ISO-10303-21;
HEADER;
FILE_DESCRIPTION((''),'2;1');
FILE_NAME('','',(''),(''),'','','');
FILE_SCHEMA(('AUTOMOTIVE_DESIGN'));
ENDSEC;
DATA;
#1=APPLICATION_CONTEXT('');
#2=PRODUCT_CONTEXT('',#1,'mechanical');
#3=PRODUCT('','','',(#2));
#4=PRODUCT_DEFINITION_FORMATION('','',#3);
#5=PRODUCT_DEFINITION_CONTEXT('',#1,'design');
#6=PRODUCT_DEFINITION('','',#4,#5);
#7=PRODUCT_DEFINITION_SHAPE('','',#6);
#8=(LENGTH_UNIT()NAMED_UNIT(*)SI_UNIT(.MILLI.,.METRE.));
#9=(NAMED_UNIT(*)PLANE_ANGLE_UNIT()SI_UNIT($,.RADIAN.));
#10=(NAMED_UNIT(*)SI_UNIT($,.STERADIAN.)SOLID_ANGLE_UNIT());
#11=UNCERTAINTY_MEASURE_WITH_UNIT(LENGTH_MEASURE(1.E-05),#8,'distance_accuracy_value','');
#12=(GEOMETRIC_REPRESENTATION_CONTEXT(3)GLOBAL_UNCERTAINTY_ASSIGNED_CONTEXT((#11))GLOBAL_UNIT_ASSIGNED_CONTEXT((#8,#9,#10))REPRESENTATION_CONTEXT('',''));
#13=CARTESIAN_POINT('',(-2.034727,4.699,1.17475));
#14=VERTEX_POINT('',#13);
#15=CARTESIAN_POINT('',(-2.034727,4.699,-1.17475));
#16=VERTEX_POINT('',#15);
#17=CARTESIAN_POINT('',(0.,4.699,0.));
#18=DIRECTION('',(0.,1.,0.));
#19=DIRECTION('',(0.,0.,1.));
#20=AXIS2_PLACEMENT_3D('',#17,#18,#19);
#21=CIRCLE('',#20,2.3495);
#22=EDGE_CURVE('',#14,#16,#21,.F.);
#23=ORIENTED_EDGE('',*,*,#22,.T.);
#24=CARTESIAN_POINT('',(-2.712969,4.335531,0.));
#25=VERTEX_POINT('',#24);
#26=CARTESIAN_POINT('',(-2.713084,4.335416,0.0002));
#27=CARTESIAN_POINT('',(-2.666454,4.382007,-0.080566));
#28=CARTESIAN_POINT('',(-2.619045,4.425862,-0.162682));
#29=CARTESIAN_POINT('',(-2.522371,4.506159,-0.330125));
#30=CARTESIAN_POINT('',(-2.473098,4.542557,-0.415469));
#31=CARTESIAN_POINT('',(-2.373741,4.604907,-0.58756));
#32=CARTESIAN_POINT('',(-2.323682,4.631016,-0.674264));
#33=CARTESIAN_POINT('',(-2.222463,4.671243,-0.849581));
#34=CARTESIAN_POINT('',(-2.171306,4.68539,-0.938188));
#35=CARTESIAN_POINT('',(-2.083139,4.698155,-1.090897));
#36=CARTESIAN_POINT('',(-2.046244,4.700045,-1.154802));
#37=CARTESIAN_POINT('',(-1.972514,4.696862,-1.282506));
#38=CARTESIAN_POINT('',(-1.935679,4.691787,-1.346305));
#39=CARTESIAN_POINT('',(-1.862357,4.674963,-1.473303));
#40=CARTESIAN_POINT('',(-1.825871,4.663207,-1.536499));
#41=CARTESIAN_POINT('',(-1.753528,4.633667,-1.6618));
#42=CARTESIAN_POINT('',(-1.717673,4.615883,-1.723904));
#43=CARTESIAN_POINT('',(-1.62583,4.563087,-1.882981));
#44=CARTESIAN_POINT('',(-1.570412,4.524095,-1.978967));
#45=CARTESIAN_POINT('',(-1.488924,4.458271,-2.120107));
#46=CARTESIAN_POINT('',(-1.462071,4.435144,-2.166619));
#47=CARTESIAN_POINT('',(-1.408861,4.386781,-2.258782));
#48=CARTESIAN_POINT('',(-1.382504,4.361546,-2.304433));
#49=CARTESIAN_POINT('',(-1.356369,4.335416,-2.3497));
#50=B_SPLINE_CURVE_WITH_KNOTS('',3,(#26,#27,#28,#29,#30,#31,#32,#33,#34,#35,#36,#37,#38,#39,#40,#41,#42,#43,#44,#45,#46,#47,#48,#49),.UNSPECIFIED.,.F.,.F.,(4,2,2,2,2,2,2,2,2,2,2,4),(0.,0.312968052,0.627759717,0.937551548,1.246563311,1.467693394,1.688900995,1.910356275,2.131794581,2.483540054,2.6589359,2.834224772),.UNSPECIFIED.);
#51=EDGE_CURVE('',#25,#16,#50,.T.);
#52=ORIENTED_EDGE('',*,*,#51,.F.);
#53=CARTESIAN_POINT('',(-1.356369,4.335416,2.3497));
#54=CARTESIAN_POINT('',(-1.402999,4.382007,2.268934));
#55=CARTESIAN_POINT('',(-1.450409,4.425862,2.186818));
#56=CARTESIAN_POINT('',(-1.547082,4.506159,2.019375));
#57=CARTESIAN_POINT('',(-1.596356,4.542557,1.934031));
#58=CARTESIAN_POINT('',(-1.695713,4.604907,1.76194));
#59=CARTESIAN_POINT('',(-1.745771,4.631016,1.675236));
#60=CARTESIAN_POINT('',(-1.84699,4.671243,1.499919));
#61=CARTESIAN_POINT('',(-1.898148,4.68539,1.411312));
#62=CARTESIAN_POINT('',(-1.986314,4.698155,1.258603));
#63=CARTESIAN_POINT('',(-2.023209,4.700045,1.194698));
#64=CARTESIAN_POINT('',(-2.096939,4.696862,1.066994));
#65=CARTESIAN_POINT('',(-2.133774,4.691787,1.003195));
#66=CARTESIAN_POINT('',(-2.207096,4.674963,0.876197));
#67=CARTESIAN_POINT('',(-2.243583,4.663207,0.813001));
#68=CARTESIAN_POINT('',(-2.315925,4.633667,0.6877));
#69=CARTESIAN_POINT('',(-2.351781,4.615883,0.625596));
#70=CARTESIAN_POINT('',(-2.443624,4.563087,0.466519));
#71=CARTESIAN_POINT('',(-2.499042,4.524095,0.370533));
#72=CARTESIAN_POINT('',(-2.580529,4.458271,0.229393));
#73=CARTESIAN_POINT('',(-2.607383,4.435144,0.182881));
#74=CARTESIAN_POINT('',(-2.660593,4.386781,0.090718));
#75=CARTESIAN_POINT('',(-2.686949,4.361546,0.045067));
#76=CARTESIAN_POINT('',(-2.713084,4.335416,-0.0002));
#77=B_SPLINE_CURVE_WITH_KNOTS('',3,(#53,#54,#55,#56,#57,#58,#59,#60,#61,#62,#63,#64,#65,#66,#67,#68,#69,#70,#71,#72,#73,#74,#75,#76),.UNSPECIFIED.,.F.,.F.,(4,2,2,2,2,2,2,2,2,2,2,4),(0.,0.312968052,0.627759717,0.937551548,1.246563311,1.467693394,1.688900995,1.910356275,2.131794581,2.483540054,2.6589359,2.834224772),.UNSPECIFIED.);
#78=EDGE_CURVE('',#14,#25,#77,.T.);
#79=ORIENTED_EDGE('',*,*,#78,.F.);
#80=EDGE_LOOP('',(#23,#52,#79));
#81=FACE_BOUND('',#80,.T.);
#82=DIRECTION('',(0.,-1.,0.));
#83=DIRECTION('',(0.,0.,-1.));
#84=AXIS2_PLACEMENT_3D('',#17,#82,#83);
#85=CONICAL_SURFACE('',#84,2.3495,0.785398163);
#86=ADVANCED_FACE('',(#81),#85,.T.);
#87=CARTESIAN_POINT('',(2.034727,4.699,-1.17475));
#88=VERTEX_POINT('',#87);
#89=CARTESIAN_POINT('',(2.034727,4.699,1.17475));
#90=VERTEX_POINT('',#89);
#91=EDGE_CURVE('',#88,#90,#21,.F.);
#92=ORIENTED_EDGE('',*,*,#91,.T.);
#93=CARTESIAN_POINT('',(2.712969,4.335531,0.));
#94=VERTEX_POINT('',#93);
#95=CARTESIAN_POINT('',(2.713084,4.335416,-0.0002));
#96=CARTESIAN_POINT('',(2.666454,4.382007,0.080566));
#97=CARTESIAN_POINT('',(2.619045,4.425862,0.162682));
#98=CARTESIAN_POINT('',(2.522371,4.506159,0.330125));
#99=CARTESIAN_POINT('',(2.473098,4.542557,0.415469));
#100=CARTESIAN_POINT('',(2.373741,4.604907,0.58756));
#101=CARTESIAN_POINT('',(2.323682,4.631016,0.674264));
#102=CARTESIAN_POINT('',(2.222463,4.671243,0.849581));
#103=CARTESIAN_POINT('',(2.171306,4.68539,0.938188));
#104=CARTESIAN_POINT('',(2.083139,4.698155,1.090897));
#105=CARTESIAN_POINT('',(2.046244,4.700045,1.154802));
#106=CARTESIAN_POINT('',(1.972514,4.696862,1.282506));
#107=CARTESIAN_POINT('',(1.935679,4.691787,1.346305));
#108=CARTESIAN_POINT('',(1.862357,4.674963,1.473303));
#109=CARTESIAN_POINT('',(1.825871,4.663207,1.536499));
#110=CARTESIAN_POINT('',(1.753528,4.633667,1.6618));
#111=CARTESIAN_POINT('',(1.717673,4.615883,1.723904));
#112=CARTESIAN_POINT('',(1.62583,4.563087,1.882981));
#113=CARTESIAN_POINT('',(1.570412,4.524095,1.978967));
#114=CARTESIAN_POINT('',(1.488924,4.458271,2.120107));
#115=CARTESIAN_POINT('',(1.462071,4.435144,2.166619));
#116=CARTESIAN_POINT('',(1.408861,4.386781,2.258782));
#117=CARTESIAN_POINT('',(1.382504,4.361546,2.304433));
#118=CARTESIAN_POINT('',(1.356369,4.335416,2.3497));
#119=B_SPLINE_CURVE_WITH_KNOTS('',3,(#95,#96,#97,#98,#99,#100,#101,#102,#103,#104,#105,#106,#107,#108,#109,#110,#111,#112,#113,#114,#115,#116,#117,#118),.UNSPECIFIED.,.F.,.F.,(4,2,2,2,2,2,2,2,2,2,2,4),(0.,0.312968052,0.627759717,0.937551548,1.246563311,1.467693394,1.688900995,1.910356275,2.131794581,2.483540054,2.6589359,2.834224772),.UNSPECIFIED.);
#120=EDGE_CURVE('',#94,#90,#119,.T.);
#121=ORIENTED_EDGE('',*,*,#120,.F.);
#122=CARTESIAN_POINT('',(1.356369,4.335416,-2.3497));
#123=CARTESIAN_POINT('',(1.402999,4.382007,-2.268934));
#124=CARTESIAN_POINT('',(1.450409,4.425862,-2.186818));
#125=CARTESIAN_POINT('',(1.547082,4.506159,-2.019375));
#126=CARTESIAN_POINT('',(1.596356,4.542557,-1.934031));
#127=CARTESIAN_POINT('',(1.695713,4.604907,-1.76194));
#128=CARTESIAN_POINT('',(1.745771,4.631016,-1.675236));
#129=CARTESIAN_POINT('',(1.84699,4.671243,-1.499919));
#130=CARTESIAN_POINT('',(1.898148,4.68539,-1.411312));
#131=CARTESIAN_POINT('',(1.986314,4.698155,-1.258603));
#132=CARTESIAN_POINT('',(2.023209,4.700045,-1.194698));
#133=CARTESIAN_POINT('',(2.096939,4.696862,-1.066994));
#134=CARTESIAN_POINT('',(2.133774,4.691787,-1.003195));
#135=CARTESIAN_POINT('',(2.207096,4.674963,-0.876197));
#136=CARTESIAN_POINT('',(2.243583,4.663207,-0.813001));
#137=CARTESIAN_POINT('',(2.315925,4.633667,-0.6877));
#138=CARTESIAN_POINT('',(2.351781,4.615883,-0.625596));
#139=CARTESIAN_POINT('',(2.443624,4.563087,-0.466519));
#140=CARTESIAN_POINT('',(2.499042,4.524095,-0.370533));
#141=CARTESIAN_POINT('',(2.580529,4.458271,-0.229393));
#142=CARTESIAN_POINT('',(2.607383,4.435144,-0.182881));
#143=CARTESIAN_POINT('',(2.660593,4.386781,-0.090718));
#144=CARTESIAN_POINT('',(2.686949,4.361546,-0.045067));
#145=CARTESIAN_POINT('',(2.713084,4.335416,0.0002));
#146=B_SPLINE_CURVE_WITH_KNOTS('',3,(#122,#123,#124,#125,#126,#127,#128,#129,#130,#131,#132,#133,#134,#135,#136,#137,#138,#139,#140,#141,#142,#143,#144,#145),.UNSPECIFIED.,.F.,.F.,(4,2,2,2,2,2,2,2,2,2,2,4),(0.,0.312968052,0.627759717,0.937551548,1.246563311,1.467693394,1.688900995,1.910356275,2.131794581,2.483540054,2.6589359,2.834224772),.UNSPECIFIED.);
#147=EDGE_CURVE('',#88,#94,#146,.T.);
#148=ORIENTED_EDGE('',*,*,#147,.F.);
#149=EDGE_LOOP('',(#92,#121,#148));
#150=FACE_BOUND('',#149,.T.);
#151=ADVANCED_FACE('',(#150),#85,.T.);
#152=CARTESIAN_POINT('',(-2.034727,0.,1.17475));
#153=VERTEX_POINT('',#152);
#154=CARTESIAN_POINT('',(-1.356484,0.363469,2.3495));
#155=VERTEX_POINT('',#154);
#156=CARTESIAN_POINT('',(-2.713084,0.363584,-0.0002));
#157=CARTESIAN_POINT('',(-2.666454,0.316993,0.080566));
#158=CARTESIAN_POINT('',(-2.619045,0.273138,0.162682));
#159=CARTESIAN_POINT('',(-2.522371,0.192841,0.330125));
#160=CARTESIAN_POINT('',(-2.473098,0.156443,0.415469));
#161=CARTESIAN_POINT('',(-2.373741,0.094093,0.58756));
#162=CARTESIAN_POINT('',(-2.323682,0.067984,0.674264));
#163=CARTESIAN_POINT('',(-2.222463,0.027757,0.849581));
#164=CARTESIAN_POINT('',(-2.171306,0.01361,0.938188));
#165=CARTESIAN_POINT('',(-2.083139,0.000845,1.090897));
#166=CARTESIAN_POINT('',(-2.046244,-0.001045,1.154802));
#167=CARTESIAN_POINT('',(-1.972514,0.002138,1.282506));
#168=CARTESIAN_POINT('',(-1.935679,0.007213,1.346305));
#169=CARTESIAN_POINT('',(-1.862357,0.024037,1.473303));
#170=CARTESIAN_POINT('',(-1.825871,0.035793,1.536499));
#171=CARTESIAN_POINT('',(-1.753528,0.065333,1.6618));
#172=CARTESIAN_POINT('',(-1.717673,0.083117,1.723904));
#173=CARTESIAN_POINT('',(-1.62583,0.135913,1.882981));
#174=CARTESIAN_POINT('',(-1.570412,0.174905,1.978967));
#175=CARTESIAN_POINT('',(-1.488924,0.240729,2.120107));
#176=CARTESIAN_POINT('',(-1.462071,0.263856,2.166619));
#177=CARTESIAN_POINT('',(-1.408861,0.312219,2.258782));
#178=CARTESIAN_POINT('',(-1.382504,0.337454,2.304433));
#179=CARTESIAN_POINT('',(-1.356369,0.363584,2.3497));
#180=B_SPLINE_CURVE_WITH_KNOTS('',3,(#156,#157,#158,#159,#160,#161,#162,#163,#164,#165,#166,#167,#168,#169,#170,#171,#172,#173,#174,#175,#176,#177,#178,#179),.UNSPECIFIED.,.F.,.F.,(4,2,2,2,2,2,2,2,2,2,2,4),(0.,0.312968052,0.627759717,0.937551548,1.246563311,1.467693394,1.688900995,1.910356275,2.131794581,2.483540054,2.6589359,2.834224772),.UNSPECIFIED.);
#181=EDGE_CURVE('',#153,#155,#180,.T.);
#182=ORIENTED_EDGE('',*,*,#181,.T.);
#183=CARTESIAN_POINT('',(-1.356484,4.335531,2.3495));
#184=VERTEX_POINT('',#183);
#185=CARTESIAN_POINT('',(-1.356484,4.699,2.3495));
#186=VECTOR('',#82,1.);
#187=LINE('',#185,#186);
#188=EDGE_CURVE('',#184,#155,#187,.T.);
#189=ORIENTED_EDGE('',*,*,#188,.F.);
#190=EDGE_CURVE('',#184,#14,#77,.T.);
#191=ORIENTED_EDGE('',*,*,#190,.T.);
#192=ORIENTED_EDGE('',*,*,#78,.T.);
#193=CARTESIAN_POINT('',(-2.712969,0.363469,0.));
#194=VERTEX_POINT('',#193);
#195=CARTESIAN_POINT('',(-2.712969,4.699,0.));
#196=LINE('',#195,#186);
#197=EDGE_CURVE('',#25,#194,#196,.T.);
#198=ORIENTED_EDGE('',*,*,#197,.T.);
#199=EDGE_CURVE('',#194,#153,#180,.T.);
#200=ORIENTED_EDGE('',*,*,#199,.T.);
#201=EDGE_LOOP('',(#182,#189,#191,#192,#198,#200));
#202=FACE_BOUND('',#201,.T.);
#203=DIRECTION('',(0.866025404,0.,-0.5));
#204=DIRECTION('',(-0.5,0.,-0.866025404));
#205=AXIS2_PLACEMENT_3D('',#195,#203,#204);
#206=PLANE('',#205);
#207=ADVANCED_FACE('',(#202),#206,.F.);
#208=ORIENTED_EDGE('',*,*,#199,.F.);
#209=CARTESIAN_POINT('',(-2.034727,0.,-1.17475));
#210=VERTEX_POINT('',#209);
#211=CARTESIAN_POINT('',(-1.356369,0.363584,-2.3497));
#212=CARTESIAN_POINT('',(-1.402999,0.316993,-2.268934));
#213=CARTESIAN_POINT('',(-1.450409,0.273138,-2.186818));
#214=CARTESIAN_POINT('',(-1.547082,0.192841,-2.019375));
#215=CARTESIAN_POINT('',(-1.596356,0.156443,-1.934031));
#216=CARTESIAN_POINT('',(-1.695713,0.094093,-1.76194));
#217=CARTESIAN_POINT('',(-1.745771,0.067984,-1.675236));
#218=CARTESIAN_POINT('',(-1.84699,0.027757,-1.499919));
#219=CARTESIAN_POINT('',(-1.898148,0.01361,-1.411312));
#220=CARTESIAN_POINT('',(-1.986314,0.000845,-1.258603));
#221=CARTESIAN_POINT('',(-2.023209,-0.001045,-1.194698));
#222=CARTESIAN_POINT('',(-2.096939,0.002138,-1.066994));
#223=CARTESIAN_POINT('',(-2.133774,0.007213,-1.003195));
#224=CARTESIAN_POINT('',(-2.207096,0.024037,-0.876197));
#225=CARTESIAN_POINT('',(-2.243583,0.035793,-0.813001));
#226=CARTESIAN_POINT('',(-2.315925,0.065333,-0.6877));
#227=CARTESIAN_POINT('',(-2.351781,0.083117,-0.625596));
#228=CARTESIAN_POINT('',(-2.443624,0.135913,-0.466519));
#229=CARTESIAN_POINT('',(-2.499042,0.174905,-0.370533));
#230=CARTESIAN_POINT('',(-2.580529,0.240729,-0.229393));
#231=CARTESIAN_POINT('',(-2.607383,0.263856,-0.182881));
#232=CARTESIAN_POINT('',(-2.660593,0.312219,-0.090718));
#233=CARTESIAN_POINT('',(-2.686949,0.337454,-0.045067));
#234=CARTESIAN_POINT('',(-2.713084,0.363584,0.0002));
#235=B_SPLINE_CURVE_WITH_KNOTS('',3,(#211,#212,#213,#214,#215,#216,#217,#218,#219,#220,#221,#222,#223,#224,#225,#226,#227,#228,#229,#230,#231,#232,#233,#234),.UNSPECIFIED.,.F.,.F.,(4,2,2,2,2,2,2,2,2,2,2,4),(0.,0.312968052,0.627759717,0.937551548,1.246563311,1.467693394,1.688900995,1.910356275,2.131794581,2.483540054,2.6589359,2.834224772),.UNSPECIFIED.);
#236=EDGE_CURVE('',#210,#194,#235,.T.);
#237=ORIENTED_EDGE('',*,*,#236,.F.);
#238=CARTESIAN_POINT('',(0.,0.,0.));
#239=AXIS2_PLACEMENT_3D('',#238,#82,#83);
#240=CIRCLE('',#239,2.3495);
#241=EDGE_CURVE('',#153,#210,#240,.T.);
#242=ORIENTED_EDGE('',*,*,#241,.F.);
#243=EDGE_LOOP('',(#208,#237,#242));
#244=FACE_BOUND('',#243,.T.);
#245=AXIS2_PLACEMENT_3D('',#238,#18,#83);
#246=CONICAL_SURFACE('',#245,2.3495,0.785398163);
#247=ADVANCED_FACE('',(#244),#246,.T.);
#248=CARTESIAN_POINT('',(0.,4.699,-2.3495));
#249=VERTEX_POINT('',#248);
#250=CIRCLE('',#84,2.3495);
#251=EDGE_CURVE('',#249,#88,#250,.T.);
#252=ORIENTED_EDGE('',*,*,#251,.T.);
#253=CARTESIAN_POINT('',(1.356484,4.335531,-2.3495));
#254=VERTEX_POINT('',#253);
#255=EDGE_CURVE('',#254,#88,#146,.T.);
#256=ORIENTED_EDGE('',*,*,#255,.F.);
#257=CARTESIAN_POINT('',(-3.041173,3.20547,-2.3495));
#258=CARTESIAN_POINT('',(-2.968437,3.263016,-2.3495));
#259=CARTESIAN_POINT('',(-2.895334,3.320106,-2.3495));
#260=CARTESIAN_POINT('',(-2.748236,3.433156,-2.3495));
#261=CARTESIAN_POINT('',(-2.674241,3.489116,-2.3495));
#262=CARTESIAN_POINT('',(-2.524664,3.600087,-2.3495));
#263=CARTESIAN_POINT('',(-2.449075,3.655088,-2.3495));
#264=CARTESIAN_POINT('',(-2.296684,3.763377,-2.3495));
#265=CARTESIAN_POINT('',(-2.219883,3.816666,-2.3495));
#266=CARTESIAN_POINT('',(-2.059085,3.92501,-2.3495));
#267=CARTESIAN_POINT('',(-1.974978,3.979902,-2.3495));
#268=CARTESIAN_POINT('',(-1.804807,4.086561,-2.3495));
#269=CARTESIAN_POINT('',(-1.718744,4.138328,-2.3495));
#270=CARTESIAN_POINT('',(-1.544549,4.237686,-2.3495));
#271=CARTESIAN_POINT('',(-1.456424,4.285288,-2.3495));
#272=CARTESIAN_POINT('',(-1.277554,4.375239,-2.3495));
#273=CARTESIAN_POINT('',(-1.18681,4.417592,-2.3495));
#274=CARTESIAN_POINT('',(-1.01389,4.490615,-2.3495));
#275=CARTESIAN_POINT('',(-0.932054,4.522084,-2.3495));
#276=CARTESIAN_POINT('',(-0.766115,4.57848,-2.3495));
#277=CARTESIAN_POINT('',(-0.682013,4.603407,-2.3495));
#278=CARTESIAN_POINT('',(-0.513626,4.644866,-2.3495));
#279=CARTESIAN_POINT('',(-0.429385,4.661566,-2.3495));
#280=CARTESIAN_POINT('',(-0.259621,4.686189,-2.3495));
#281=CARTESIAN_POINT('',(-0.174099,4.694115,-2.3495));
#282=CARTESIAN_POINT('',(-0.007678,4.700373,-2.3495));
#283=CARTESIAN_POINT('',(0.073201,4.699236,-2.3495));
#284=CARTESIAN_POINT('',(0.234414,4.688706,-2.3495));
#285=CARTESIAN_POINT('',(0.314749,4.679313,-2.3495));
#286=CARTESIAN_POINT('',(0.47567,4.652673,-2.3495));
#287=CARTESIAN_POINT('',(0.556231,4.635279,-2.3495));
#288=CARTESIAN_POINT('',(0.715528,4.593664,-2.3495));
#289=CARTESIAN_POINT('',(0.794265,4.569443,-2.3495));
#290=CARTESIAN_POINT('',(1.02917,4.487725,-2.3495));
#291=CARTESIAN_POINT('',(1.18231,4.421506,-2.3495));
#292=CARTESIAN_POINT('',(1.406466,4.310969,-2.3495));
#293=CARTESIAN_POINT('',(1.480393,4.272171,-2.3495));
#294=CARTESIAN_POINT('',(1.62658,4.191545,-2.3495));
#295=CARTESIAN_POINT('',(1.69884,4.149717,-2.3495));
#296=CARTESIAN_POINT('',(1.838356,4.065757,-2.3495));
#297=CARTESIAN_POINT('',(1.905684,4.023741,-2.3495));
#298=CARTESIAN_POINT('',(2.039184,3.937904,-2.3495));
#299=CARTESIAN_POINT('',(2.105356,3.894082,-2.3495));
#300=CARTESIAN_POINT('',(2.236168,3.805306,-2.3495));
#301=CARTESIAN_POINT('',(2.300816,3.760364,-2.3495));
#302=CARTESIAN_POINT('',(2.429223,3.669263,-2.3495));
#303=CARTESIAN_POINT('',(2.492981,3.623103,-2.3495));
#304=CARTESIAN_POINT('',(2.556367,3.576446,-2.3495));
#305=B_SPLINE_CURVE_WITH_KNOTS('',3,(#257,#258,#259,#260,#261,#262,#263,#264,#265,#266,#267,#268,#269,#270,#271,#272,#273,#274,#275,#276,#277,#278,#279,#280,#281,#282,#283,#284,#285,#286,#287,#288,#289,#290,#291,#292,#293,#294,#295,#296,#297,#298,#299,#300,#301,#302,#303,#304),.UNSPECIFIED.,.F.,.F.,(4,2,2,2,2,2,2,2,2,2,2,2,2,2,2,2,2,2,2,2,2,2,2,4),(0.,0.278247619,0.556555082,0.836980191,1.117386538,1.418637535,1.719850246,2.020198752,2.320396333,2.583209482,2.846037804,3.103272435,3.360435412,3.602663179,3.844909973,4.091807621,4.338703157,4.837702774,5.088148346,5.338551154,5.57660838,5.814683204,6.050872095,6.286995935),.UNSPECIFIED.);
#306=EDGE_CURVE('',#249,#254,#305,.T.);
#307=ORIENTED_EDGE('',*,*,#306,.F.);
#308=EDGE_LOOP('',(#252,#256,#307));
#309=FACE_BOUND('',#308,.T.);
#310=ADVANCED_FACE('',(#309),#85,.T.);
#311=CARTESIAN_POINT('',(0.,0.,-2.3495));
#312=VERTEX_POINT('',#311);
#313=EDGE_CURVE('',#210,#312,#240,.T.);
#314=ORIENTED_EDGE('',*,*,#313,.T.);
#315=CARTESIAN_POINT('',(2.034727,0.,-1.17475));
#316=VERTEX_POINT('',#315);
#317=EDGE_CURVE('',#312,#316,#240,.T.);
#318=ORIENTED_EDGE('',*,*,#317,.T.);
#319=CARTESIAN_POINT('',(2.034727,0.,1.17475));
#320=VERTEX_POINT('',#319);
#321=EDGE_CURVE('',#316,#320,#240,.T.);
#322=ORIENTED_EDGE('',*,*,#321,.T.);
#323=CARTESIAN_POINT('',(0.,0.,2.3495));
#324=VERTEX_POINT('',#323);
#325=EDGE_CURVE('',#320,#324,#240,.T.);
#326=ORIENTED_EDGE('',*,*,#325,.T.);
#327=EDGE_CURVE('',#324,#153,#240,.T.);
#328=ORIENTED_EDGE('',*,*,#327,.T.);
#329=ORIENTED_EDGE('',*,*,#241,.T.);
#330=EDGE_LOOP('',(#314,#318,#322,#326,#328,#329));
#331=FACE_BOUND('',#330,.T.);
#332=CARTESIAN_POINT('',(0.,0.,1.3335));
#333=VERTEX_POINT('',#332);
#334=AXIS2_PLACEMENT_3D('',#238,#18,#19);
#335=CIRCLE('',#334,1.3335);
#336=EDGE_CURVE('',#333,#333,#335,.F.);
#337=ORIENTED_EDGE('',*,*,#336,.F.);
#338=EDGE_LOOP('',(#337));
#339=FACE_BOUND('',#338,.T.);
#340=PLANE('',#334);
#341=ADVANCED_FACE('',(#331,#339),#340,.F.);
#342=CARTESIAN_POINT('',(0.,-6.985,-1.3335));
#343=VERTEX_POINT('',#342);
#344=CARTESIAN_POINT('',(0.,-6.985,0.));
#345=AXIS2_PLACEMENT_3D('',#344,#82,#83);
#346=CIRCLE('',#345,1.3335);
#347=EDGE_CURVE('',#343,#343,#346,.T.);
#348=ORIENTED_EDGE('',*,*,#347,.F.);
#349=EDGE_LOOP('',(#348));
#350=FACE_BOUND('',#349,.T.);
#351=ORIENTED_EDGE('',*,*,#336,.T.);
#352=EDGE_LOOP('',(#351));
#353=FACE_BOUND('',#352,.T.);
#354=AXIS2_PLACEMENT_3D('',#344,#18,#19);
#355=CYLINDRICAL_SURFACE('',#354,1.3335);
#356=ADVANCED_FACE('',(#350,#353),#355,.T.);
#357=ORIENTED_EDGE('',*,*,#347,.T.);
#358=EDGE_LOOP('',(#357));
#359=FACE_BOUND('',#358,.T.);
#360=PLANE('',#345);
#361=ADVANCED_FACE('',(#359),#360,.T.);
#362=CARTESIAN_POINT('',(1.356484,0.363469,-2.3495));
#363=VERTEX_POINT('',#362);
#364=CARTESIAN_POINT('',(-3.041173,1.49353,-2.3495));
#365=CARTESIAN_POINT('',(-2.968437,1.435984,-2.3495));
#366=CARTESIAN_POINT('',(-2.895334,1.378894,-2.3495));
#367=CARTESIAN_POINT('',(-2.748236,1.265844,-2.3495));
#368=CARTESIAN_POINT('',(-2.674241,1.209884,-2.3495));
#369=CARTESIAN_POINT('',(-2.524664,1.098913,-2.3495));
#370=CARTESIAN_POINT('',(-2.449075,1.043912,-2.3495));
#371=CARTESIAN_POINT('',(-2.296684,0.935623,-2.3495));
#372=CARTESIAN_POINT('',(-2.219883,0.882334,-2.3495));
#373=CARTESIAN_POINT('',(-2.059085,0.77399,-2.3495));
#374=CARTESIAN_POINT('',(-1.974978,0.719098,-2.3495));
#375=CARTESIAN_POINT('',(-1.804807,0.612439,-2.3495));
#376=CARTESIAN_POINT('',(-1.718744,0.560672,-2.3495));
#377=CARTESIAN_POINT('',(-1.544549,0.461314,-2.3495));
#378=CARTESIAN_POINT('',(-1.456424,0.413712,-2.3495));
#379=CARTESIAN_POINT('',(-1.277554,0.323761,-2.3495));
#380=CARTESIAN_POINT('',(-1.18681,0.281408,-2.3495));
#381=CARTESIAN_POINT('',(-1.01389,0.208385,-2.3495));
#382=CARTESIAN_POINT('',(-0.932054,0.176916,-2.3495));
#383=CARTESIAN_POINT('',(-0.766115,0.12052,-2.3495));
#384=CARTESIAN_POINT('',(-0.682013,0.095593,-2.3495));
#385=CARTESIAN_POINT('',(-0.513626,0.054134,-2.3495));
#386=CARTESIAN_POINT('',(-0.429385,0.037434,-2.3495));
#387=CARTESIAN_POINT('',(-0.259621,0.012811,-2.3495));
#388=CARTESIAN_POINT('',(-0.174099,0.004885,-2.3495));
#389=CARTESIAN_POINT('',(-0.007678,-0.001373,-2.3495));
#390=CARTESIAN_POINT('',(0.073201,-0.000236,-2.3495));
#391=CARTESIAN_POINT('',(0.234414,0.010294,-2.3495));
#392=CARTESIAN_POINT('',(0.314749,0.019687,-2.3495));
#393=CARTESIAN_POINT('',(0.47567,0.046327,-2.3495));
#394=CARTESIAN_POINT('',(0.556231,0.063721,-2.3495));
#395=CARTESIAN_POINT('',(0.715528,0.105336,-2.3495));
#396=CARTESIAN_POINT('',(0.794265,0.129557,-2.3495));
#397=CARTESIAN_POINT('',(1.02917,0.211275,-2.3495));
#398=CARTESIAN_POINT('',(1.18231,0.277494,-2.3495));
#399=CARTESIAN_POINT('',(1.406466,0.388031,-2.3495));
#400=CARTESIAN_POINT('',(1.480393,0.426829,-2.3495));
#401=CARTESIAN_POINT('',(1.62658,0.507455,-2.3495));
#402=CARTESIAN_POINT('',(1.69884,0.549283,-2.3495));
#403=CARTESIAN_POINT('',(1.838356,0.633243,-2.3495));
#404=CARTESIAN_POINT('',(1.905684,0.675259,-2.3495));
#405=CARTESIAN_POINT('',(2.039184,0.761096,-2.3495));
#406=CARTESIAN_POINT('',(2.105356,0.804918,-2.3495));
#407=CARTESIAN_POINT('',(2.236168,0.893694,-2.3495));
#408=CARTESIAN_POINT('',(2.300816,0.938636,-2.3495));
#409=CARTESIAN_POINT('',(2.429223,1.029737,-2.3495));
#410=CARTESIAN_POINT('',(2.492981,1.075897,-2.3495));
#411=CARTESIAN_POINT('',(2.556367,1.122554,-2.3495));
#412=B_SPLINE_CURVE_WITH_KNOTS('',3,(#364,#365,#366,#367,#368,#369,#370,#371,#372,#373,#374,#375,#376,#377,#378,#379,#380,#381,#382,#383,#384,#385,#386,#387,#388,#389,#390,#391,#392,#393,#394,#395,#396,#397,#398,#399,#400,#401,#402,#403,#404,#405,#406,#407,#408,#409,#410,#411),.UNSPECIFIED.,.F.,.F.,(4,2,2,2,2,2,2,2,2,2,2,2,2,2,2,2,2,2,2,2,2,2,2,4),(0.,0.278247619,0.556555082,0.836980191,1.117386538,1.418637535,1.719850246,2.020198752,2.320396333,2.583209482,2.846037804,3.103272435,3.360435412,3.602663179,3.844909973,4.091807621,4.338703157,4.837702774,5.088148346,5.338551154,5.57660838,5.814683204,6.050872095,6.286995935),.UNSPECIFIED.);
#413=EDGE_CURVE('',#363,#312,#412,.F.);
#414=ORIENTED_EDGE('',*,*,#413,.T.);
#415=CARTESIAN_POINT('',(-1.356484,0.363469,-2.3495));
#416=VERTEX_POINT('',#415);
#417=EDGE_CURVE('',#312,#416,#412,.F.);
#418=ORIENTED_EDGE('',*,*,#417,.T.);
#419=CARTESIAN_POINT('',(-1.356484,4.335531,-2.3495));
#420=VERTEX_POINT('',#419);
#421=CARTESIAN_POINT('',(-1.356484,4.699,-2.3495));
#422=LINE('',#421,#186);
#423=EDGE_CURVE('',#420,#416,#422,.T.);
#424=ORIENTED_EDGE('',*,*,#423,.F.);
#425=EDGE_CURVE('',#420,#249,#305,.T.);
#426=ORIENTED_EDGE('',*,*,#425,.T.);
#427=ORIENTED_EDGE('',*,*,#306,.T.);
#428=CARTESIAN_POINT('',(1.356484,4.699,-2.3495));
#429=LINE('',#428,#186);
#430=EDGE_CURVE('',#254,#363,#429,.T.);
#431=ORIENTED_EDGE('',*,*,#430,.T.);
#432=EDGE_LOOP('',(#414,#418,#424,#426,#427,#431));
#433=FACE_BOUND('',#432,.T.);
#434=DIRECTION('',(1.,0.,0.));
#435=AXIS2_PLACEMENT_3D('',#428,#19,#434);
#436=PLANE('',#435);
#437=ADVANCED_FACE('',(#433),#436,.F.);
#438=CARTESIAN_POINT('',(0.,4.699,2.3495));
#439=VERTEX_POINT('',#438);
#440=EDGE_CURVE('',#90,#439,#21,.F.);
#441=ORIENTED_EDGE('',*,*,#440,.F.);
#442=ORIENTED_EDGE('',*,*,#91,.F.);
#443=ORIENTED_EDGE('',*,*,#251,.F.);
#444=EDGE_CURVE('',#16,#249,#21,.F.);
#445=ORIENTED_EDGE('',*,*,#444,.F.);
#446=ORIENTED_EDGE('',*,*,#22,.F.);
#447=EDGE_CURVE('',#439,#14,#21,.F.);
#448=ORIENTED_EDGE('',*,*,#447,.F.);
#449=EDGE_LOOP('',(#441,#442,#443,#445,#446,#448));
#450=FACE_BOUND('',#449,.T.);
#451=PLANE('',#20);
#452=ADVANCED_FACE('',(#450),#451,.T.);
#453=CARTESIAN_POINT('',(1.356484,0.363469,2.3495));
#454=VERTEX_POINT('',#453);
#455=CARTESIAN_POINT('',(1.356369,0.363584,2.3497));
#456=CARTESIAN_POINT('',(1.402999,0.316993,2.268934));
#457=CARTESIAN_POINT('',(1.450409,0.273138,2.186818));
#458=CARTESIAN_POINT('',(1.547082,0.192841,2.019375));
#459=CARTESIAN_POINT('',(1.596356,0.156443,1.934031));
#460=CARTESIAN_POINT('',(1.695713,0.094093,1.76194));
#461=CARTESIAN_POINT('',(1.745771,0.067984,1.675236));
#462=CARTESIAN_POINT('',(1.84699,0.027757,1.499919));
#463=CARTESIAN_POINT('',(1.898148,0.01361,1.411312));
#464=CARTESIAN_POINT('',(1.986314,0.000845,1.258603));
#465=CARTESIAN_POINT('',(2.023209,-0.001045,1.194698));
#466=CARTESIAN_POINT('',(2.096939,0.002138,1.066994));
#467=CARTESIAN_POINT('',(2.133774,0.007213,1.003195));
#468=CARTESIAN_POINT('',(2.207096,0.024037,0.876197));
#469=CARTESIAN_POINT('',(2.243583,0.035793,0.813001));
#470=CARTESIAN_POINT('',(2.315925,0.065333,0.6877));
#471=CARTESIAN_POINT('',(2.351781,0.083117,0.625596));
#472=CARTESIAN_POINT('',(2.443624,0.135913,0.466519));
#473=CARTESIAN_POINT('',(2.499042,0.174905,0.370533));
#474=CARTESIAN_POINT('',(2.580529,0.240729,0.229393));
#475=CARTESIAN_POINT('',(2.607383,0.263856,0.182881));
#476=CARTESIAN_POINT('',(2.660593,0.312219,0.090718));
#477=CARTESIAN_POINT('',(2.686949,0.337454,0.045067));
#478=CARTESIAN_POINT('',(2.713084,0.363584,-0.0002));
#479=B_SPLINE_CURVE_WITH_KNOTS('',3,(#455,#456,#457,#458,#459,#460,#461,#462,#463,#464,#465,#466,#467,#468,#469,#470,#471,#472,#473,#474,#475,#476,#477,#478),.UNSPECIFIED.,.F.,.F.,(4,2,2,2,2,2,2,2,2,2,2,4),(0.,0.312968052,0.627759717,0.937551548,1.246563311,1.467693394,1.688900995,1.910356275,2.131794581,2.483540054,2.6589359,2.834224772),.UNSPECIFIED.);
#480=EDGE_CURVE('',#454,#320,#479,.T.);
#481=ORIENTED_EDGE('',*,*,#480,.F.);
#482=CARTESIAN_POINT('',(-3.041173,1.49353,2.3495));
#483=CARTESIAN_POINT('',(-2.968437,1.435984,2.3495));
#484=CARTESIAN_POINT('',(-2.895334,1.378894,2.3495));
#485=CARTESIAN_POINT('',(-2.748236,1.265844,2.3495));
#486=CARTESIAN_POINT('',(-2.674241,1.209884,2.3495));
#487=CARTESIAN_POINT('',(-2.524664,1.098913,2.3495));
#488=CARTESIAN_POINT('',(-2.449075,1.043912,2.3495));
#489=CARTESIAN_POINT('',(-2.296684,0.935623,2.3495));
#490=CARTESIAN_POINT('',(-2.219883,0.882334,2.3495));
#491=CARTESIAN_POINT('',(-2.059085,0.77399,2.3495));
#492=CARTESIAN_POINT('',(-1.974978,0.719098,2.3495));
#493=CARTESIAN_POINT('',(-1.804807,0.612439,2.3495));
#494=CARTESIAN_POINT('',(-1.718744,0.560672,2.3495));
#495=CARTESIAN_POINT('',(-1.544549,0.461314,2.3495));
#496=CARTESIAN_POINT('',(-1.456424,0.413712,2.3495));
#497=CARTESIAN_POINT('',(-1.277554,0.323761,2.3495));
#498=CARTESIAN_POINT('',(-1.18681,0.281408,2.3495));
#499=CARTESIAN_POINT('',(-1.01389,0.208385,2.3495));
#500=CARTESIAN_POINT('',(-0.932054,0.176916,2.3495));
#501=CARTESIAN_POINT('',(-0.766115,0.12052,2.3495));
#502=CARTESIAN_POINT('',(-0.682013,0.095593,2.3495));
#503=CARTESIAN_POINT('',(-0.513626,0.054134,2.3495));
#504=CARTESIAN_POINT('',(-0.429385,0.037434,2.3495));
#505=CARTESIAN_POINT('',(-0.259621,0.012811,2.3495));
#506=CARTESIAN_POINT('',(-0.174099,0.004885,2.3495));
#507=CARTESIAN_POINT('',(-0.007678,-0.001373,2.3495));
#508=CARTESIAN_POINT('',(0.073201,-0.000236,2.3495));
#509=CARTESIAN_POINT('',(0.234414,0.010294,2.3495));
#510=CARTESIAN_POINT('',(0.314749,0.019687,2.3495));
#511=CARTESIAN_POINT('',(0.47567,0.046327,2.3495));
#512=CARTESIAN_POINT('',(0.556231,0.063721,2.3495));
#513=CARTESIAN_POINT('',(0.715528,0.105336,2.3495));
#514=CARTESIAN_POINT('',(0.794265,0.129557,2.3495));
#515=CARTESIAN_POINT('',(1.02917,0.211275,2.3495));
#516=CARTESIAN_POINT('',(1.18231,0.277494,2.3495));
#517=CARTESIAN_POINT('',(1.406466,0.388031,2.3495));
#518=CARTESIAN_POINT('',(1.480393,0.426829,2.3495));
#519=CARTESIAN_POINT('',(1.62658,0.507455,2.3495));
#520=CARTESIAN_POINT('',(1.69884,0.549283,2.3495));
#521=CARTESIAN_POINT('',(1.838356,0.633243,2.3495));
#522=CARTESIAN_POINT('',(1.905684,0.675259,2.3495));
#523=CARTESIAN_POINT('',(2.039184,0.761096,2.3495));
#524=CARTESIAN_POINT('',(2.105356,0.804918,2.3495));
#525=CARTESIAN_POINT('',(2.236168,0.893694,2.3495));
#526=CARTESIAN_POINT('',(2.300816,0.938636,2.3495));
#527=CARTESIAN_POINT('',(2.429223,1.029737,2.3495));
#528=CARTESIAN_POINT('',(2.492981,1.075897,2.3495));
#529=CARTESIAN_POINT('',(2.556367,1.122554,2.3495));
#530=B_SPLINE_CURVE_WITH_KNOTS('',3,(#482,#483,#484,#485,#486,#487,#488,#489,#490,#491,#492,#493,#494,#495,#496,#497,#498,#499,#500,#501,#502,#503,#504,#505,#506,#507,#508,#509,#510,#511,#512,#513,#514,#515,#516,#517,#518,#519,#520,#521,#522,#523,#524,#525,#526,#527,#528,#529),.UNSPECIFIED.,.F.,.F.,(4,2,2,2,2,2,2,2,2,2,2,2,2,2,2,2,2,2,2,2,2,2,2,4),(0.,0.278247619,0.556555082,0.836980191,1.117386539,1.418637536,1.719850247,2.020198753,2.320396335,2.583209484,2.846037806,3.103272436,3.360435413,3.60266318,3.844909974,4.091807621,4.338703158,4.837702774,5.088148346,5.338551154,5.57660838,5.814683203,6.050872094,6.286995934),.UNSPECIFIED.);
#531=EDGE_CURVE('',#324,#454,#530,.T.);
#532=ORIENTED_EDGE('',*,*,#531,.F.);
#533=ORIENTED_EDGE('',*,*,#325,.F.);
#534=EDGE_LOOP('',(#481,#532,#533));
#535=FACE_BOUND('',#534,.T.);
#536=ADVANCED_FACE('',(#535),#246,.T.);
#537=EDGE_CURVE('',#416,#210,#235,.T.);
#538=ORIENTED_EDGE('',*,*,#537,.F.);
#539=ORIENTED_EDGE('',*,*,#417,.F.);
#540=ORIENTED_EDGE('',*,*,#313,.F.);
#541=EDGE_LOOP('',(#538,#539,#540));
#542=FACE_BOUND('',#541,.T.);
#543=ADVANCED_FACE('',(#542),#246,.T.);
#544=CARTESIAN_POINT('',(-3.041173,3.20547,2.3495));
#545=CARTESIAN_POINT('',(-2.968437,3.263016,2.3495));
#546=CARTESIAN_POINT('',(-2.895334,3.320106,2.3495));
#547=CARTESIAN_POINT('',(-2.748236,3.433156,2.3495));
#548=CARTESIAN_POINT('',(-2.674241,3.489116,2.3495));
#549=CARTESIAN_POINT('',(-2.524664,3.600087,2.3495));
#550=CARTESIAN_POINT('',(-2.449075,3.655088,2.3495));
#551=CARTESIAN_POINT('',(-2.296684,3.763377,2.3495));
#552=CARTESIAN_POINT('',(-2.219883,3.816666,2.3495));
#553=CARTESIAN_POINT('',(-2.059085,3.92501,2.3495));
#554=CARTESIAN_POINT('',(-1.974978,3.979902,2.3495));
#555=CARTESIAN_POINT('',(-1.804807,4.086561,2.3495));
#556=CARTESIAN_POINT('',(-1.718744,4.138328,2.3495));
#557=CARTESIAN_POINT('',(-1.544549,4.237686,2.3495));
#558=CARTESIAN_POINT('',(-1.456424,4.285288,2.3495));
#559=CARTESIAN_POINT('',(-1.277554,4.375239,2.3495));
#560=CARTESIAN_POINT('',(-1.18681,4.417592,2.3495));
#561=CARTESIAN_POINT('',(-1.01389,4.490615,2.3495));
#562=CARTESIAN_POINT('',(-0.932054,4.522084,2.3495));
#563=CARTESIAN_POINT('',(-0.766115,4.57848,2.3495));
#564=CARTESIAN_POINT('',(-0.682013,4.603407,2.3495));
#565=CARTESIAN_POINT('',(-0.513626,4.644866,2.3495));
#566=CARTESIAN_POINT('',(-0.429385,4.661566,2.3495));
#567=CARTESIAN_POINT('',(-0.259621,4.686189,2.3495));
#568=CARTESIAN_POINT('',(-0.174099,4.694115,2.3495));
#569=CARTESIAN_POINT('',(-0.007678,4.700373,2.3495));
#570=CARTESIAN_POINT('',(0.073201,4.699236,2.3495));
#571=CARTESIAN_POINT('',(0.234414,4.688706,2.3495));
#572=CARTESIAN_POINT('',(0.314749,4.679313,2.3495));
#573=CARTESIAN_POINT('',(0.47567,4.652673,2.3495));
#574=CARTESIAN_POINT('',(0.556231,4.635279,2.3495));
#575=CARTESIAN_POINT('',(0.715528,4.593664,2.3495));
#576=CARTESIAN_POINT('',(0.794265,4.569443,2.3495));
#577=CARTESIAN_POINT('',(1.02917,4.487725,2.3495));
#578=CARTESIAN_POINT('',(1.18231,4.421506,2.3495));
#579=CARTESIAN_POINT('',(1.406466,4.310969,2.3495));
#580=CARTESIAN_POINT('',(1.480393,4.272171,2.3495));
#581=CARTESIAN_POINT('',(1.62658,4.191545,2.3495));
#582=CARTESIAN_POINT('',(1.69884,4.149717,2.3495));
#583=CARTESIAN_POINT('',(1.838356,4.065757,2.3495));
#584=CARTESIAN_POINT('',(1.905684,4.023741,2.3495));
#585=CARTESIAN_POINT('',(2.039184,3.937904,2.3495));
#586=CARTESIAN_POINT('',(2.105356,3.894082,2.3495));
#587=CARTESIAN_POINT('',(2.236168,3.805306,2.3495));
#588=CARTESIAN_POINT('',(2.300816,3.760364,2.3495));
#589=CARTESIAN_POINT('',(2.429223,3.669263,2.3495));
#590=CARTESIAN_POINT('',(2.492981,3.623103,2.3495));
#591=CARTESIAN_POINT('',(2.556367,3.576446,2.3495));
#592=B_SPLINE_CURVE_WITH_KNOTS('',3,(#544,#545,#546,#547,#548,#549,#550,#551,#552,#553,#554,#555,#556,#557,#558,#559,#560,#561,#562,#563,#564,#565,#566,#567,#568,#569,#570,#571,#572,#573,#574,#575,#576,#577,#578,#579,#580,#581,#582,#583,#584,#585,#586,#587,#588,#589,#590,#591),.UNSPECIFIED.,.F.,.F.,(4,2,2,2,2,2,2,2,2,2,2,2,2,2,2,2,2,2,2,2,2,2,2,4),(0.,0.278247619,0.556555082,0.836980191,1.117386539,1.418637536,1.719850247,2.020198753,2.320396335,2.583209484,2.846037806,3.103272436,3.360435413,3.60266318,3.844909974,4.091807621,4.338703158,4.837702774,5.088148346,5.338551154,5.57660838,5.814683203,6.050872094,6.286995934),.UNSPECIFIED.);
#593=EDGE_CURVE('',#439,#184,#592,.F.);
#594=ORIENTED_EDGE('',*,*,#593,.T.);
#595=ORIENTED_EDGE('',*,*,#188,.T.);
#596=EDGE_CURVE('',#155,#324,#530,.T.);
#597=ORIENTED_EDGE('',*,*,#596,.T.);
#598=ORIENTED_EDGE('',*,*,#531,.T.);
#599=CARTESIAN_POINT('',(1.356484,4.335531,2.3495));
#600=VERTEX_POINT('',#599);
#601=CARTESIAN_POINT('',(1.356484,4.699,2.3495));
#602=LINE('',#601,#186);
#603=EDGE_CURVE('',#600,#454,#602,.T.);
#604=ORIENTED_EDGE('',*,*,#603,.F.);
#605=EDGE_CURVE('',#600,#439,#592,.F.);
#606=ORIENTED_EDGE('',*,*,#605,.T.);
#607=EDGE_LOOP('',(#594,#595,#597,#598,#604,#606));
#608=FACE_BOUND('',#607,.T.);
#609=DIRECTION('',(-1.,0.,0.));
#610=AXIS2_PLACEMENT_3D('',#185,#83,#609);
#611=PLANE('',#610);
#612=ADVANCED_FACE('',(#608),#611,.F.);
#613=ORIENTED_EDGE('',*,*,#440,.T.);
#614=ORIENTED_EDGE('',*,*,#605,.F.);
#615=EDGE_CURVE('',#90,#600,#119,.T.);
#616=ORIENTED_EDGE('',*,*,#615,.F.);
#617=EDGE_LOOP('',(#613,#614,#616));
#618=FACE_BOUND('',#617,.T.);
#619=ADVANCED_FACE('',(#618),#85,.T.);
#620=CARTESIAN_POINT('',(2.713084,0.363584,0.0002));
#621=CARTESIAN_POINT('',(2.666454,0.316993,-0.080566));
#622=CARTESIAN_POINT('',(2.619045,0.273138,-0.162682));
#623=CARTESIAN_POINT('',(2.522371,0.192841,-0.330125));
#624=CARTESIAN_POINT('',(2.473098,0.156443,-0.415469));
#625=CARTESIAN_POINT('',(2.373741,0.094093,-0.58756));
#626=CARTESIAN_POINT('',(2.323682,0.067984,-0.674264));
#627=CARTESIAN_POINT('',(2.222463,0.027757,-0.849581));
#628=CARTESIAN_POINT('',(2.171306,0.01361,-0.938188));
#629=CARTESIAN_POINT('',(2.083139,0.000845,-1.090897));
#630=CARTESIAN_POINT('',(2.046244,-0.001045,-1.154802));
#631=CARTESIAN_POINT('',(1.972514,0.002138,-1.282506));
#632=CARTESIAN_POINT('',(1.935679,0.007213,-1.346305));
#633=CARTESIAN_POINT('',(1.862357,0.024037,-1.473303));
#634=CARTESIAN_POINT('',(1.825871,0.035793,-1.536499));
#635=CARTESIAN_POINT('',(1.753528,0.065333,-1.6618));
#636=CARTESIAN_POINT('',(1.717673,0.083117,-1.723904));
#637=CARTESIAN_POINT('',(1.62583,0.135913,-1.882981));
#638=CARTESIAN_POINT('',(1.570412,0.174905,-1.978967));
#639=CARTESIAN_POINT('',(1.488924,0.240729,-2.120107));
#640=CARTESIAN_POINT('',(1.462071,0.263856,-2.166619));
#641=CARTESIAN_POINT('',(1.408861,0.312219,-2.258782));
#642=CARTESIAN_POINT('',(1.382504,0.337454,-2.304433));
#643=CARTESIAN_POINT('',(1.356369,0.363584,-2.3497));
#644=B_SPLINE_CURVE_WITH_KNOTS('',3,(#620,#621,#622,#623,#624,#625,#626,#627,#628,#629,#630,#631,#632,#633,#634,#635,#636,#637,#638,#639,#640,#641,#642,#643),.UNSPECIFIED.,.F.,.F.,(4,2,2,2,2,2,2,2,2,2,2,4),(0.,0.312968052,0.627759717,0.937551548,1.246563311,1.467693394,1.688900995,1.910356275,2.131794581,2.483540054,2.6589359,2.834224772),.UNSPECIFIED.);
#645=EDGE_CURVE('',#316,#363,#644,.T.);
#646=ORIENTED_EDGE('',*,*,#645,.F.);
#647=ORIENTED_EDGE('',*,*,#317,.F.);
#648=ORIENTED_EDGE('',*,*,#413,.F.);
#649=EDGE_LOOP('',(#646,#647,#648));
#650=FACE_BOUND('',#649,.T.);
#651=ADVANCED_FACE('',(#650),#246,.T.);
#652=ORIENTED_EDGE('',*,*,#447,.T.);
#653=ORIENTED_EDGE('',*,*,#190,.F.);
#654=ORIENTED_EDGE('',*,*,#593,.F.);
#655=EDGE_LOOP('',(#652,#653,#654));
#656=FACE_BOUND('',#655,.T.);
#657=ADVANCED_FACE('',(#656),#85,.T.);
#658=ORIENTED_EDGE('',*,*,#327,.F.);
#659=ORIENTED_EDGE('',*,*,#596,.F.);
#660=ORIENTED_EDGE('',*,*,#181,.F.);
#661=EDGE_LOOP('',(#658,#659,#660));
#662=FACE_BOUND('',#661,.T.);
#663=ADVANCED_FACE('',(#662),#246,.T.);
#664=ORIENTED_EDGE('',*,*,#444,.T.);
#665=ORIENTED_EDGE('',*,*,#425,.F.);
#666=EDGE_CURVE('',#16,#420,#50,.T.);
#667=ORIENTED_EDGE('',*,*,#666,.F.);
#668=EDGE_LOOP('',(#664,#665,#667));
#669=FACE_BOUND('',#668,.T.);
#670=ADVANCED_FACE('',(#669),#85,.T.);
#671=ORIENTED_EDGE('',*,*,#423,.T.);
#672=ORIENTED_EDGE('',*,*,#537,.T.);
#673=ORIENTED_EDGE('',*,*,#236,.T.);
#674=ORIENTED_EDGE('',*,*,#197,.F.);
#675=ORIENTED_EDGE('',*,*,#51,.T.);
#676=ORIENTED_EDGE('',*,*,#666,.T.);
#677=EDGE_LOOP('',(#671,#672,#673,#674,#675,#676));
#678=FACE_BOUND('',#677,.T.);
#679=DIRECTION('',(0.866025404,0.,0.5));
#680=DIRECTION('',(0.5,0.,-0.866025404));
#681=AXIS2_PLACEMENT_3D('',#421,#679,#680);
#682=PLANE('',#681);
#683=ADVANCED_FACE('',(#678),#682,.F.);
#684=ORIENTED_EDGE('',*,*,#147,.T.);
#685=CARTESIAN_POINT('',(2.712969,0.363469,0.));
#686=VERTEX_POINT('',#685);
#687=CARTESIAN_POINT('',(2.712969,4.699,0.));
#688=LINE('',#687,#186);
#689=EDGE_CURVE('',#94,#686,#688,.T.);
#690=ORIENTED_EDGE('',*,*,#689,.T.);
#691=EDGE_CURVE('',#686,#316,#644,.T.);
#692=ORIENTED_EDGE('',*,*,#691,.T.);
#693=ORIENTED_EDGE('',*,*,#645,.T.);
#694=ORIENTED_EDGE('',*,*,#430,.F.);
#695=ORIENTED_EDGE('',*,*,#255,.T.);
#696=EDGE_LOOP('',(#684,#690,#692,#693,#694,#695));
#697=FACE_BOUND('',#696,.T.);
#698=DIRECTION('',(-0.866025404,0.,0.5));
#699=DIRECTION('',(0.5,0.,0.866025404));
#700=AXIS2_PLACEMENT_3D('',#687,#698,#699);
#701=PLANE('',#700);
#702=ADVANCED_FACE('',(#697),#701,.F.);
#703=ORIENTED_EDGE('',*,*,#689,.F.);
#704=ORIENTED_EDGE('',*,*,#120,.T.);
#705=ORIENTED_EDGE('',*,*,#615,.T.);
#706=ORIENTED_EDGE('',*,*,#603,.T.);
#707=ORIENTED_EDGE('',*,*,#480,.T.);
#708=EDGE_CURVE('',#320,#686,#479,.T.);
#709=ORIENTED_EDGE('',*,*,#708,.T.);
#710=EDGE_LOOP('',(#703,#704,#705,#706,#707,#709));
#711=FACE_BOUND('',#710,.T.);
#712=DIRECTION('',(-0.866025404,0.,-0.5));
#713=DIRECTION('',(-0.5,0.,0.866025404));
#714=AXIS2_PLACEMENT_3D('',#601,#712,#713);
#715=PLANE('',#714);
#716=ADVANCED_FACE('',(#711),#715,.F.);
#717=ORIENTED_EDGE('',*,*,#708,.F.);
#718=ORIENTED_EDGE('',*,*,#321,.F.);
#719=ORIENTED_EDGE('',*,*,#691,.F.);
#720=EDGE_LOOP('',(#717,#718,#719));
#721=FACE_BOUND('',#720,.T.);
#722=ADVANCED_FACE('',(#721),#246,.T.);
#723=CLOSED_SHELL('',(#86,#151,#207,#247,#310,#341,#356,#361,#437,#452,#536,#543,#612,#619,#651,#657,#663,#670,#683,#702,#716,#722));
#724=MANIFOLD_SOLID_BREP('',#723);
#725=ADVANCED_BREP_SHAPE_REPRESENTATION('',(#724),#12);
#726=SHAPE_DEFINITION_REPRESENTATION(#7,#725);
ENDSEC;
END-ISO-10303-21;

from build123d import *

# Parameters (mm, degrees)
BOSS_EXTRUDE1_DEPTH = 4.699
SKETCH2_R           = 1.3335
BOSS_EXTRUDE2_DEPTH = 6.985


with BuildPart() as part:
    # Sketch1 → Boss-Extrude1 (new body)
    with BuildSketch(Plane(origin=(0, 0, 0), x_dir=(1, 0, 0), z_dir=(0, 1, 0))):
        Polygon((2.712968915, 0), (1.356484457, 2.3495), (-1.356484457, 2.3495), (-2.712968915, 0), (-1.356484457, -2.3495), (1.356484457, -2.3495), align=None)
    extrude(amount=BOSS_EXTRUDE1_DEPTH)

    # Sketch2 → Boss-Extrude2 (add)
    with BuildSketch(Plane.XZ):
        with Locations(Location((0, 0, 0), (0, 0, 90))):
            Circle(SKETCH2_R)
    extrude(amount=BOSS_EXTRUDE2_DEPTH)

    # Sketch5 → Cut-Revolve1 (revolve, cut)
    with BuildSketch(Plane(origin=(0, 0, 0), x_dir=(0, 0, -1), z_dir=(1, 0, 0))):
        Polygon((2.3495, 4.699), (3.223173217, 3.825326783), (3.223173217, 4.699), align=None)
    cut_revolve1 = revolve(axis=Axis((0, 4.699, 0), (0, 1, 0)), mode=Mode.SUBTRACT)

    # Mirror1: Cut-Revolve1 across plane
    add(cut_revolve1.mirror(Plane.ZX.offset(2.3495)), mode=Mode.SUBTRACT)


solid = part.part
